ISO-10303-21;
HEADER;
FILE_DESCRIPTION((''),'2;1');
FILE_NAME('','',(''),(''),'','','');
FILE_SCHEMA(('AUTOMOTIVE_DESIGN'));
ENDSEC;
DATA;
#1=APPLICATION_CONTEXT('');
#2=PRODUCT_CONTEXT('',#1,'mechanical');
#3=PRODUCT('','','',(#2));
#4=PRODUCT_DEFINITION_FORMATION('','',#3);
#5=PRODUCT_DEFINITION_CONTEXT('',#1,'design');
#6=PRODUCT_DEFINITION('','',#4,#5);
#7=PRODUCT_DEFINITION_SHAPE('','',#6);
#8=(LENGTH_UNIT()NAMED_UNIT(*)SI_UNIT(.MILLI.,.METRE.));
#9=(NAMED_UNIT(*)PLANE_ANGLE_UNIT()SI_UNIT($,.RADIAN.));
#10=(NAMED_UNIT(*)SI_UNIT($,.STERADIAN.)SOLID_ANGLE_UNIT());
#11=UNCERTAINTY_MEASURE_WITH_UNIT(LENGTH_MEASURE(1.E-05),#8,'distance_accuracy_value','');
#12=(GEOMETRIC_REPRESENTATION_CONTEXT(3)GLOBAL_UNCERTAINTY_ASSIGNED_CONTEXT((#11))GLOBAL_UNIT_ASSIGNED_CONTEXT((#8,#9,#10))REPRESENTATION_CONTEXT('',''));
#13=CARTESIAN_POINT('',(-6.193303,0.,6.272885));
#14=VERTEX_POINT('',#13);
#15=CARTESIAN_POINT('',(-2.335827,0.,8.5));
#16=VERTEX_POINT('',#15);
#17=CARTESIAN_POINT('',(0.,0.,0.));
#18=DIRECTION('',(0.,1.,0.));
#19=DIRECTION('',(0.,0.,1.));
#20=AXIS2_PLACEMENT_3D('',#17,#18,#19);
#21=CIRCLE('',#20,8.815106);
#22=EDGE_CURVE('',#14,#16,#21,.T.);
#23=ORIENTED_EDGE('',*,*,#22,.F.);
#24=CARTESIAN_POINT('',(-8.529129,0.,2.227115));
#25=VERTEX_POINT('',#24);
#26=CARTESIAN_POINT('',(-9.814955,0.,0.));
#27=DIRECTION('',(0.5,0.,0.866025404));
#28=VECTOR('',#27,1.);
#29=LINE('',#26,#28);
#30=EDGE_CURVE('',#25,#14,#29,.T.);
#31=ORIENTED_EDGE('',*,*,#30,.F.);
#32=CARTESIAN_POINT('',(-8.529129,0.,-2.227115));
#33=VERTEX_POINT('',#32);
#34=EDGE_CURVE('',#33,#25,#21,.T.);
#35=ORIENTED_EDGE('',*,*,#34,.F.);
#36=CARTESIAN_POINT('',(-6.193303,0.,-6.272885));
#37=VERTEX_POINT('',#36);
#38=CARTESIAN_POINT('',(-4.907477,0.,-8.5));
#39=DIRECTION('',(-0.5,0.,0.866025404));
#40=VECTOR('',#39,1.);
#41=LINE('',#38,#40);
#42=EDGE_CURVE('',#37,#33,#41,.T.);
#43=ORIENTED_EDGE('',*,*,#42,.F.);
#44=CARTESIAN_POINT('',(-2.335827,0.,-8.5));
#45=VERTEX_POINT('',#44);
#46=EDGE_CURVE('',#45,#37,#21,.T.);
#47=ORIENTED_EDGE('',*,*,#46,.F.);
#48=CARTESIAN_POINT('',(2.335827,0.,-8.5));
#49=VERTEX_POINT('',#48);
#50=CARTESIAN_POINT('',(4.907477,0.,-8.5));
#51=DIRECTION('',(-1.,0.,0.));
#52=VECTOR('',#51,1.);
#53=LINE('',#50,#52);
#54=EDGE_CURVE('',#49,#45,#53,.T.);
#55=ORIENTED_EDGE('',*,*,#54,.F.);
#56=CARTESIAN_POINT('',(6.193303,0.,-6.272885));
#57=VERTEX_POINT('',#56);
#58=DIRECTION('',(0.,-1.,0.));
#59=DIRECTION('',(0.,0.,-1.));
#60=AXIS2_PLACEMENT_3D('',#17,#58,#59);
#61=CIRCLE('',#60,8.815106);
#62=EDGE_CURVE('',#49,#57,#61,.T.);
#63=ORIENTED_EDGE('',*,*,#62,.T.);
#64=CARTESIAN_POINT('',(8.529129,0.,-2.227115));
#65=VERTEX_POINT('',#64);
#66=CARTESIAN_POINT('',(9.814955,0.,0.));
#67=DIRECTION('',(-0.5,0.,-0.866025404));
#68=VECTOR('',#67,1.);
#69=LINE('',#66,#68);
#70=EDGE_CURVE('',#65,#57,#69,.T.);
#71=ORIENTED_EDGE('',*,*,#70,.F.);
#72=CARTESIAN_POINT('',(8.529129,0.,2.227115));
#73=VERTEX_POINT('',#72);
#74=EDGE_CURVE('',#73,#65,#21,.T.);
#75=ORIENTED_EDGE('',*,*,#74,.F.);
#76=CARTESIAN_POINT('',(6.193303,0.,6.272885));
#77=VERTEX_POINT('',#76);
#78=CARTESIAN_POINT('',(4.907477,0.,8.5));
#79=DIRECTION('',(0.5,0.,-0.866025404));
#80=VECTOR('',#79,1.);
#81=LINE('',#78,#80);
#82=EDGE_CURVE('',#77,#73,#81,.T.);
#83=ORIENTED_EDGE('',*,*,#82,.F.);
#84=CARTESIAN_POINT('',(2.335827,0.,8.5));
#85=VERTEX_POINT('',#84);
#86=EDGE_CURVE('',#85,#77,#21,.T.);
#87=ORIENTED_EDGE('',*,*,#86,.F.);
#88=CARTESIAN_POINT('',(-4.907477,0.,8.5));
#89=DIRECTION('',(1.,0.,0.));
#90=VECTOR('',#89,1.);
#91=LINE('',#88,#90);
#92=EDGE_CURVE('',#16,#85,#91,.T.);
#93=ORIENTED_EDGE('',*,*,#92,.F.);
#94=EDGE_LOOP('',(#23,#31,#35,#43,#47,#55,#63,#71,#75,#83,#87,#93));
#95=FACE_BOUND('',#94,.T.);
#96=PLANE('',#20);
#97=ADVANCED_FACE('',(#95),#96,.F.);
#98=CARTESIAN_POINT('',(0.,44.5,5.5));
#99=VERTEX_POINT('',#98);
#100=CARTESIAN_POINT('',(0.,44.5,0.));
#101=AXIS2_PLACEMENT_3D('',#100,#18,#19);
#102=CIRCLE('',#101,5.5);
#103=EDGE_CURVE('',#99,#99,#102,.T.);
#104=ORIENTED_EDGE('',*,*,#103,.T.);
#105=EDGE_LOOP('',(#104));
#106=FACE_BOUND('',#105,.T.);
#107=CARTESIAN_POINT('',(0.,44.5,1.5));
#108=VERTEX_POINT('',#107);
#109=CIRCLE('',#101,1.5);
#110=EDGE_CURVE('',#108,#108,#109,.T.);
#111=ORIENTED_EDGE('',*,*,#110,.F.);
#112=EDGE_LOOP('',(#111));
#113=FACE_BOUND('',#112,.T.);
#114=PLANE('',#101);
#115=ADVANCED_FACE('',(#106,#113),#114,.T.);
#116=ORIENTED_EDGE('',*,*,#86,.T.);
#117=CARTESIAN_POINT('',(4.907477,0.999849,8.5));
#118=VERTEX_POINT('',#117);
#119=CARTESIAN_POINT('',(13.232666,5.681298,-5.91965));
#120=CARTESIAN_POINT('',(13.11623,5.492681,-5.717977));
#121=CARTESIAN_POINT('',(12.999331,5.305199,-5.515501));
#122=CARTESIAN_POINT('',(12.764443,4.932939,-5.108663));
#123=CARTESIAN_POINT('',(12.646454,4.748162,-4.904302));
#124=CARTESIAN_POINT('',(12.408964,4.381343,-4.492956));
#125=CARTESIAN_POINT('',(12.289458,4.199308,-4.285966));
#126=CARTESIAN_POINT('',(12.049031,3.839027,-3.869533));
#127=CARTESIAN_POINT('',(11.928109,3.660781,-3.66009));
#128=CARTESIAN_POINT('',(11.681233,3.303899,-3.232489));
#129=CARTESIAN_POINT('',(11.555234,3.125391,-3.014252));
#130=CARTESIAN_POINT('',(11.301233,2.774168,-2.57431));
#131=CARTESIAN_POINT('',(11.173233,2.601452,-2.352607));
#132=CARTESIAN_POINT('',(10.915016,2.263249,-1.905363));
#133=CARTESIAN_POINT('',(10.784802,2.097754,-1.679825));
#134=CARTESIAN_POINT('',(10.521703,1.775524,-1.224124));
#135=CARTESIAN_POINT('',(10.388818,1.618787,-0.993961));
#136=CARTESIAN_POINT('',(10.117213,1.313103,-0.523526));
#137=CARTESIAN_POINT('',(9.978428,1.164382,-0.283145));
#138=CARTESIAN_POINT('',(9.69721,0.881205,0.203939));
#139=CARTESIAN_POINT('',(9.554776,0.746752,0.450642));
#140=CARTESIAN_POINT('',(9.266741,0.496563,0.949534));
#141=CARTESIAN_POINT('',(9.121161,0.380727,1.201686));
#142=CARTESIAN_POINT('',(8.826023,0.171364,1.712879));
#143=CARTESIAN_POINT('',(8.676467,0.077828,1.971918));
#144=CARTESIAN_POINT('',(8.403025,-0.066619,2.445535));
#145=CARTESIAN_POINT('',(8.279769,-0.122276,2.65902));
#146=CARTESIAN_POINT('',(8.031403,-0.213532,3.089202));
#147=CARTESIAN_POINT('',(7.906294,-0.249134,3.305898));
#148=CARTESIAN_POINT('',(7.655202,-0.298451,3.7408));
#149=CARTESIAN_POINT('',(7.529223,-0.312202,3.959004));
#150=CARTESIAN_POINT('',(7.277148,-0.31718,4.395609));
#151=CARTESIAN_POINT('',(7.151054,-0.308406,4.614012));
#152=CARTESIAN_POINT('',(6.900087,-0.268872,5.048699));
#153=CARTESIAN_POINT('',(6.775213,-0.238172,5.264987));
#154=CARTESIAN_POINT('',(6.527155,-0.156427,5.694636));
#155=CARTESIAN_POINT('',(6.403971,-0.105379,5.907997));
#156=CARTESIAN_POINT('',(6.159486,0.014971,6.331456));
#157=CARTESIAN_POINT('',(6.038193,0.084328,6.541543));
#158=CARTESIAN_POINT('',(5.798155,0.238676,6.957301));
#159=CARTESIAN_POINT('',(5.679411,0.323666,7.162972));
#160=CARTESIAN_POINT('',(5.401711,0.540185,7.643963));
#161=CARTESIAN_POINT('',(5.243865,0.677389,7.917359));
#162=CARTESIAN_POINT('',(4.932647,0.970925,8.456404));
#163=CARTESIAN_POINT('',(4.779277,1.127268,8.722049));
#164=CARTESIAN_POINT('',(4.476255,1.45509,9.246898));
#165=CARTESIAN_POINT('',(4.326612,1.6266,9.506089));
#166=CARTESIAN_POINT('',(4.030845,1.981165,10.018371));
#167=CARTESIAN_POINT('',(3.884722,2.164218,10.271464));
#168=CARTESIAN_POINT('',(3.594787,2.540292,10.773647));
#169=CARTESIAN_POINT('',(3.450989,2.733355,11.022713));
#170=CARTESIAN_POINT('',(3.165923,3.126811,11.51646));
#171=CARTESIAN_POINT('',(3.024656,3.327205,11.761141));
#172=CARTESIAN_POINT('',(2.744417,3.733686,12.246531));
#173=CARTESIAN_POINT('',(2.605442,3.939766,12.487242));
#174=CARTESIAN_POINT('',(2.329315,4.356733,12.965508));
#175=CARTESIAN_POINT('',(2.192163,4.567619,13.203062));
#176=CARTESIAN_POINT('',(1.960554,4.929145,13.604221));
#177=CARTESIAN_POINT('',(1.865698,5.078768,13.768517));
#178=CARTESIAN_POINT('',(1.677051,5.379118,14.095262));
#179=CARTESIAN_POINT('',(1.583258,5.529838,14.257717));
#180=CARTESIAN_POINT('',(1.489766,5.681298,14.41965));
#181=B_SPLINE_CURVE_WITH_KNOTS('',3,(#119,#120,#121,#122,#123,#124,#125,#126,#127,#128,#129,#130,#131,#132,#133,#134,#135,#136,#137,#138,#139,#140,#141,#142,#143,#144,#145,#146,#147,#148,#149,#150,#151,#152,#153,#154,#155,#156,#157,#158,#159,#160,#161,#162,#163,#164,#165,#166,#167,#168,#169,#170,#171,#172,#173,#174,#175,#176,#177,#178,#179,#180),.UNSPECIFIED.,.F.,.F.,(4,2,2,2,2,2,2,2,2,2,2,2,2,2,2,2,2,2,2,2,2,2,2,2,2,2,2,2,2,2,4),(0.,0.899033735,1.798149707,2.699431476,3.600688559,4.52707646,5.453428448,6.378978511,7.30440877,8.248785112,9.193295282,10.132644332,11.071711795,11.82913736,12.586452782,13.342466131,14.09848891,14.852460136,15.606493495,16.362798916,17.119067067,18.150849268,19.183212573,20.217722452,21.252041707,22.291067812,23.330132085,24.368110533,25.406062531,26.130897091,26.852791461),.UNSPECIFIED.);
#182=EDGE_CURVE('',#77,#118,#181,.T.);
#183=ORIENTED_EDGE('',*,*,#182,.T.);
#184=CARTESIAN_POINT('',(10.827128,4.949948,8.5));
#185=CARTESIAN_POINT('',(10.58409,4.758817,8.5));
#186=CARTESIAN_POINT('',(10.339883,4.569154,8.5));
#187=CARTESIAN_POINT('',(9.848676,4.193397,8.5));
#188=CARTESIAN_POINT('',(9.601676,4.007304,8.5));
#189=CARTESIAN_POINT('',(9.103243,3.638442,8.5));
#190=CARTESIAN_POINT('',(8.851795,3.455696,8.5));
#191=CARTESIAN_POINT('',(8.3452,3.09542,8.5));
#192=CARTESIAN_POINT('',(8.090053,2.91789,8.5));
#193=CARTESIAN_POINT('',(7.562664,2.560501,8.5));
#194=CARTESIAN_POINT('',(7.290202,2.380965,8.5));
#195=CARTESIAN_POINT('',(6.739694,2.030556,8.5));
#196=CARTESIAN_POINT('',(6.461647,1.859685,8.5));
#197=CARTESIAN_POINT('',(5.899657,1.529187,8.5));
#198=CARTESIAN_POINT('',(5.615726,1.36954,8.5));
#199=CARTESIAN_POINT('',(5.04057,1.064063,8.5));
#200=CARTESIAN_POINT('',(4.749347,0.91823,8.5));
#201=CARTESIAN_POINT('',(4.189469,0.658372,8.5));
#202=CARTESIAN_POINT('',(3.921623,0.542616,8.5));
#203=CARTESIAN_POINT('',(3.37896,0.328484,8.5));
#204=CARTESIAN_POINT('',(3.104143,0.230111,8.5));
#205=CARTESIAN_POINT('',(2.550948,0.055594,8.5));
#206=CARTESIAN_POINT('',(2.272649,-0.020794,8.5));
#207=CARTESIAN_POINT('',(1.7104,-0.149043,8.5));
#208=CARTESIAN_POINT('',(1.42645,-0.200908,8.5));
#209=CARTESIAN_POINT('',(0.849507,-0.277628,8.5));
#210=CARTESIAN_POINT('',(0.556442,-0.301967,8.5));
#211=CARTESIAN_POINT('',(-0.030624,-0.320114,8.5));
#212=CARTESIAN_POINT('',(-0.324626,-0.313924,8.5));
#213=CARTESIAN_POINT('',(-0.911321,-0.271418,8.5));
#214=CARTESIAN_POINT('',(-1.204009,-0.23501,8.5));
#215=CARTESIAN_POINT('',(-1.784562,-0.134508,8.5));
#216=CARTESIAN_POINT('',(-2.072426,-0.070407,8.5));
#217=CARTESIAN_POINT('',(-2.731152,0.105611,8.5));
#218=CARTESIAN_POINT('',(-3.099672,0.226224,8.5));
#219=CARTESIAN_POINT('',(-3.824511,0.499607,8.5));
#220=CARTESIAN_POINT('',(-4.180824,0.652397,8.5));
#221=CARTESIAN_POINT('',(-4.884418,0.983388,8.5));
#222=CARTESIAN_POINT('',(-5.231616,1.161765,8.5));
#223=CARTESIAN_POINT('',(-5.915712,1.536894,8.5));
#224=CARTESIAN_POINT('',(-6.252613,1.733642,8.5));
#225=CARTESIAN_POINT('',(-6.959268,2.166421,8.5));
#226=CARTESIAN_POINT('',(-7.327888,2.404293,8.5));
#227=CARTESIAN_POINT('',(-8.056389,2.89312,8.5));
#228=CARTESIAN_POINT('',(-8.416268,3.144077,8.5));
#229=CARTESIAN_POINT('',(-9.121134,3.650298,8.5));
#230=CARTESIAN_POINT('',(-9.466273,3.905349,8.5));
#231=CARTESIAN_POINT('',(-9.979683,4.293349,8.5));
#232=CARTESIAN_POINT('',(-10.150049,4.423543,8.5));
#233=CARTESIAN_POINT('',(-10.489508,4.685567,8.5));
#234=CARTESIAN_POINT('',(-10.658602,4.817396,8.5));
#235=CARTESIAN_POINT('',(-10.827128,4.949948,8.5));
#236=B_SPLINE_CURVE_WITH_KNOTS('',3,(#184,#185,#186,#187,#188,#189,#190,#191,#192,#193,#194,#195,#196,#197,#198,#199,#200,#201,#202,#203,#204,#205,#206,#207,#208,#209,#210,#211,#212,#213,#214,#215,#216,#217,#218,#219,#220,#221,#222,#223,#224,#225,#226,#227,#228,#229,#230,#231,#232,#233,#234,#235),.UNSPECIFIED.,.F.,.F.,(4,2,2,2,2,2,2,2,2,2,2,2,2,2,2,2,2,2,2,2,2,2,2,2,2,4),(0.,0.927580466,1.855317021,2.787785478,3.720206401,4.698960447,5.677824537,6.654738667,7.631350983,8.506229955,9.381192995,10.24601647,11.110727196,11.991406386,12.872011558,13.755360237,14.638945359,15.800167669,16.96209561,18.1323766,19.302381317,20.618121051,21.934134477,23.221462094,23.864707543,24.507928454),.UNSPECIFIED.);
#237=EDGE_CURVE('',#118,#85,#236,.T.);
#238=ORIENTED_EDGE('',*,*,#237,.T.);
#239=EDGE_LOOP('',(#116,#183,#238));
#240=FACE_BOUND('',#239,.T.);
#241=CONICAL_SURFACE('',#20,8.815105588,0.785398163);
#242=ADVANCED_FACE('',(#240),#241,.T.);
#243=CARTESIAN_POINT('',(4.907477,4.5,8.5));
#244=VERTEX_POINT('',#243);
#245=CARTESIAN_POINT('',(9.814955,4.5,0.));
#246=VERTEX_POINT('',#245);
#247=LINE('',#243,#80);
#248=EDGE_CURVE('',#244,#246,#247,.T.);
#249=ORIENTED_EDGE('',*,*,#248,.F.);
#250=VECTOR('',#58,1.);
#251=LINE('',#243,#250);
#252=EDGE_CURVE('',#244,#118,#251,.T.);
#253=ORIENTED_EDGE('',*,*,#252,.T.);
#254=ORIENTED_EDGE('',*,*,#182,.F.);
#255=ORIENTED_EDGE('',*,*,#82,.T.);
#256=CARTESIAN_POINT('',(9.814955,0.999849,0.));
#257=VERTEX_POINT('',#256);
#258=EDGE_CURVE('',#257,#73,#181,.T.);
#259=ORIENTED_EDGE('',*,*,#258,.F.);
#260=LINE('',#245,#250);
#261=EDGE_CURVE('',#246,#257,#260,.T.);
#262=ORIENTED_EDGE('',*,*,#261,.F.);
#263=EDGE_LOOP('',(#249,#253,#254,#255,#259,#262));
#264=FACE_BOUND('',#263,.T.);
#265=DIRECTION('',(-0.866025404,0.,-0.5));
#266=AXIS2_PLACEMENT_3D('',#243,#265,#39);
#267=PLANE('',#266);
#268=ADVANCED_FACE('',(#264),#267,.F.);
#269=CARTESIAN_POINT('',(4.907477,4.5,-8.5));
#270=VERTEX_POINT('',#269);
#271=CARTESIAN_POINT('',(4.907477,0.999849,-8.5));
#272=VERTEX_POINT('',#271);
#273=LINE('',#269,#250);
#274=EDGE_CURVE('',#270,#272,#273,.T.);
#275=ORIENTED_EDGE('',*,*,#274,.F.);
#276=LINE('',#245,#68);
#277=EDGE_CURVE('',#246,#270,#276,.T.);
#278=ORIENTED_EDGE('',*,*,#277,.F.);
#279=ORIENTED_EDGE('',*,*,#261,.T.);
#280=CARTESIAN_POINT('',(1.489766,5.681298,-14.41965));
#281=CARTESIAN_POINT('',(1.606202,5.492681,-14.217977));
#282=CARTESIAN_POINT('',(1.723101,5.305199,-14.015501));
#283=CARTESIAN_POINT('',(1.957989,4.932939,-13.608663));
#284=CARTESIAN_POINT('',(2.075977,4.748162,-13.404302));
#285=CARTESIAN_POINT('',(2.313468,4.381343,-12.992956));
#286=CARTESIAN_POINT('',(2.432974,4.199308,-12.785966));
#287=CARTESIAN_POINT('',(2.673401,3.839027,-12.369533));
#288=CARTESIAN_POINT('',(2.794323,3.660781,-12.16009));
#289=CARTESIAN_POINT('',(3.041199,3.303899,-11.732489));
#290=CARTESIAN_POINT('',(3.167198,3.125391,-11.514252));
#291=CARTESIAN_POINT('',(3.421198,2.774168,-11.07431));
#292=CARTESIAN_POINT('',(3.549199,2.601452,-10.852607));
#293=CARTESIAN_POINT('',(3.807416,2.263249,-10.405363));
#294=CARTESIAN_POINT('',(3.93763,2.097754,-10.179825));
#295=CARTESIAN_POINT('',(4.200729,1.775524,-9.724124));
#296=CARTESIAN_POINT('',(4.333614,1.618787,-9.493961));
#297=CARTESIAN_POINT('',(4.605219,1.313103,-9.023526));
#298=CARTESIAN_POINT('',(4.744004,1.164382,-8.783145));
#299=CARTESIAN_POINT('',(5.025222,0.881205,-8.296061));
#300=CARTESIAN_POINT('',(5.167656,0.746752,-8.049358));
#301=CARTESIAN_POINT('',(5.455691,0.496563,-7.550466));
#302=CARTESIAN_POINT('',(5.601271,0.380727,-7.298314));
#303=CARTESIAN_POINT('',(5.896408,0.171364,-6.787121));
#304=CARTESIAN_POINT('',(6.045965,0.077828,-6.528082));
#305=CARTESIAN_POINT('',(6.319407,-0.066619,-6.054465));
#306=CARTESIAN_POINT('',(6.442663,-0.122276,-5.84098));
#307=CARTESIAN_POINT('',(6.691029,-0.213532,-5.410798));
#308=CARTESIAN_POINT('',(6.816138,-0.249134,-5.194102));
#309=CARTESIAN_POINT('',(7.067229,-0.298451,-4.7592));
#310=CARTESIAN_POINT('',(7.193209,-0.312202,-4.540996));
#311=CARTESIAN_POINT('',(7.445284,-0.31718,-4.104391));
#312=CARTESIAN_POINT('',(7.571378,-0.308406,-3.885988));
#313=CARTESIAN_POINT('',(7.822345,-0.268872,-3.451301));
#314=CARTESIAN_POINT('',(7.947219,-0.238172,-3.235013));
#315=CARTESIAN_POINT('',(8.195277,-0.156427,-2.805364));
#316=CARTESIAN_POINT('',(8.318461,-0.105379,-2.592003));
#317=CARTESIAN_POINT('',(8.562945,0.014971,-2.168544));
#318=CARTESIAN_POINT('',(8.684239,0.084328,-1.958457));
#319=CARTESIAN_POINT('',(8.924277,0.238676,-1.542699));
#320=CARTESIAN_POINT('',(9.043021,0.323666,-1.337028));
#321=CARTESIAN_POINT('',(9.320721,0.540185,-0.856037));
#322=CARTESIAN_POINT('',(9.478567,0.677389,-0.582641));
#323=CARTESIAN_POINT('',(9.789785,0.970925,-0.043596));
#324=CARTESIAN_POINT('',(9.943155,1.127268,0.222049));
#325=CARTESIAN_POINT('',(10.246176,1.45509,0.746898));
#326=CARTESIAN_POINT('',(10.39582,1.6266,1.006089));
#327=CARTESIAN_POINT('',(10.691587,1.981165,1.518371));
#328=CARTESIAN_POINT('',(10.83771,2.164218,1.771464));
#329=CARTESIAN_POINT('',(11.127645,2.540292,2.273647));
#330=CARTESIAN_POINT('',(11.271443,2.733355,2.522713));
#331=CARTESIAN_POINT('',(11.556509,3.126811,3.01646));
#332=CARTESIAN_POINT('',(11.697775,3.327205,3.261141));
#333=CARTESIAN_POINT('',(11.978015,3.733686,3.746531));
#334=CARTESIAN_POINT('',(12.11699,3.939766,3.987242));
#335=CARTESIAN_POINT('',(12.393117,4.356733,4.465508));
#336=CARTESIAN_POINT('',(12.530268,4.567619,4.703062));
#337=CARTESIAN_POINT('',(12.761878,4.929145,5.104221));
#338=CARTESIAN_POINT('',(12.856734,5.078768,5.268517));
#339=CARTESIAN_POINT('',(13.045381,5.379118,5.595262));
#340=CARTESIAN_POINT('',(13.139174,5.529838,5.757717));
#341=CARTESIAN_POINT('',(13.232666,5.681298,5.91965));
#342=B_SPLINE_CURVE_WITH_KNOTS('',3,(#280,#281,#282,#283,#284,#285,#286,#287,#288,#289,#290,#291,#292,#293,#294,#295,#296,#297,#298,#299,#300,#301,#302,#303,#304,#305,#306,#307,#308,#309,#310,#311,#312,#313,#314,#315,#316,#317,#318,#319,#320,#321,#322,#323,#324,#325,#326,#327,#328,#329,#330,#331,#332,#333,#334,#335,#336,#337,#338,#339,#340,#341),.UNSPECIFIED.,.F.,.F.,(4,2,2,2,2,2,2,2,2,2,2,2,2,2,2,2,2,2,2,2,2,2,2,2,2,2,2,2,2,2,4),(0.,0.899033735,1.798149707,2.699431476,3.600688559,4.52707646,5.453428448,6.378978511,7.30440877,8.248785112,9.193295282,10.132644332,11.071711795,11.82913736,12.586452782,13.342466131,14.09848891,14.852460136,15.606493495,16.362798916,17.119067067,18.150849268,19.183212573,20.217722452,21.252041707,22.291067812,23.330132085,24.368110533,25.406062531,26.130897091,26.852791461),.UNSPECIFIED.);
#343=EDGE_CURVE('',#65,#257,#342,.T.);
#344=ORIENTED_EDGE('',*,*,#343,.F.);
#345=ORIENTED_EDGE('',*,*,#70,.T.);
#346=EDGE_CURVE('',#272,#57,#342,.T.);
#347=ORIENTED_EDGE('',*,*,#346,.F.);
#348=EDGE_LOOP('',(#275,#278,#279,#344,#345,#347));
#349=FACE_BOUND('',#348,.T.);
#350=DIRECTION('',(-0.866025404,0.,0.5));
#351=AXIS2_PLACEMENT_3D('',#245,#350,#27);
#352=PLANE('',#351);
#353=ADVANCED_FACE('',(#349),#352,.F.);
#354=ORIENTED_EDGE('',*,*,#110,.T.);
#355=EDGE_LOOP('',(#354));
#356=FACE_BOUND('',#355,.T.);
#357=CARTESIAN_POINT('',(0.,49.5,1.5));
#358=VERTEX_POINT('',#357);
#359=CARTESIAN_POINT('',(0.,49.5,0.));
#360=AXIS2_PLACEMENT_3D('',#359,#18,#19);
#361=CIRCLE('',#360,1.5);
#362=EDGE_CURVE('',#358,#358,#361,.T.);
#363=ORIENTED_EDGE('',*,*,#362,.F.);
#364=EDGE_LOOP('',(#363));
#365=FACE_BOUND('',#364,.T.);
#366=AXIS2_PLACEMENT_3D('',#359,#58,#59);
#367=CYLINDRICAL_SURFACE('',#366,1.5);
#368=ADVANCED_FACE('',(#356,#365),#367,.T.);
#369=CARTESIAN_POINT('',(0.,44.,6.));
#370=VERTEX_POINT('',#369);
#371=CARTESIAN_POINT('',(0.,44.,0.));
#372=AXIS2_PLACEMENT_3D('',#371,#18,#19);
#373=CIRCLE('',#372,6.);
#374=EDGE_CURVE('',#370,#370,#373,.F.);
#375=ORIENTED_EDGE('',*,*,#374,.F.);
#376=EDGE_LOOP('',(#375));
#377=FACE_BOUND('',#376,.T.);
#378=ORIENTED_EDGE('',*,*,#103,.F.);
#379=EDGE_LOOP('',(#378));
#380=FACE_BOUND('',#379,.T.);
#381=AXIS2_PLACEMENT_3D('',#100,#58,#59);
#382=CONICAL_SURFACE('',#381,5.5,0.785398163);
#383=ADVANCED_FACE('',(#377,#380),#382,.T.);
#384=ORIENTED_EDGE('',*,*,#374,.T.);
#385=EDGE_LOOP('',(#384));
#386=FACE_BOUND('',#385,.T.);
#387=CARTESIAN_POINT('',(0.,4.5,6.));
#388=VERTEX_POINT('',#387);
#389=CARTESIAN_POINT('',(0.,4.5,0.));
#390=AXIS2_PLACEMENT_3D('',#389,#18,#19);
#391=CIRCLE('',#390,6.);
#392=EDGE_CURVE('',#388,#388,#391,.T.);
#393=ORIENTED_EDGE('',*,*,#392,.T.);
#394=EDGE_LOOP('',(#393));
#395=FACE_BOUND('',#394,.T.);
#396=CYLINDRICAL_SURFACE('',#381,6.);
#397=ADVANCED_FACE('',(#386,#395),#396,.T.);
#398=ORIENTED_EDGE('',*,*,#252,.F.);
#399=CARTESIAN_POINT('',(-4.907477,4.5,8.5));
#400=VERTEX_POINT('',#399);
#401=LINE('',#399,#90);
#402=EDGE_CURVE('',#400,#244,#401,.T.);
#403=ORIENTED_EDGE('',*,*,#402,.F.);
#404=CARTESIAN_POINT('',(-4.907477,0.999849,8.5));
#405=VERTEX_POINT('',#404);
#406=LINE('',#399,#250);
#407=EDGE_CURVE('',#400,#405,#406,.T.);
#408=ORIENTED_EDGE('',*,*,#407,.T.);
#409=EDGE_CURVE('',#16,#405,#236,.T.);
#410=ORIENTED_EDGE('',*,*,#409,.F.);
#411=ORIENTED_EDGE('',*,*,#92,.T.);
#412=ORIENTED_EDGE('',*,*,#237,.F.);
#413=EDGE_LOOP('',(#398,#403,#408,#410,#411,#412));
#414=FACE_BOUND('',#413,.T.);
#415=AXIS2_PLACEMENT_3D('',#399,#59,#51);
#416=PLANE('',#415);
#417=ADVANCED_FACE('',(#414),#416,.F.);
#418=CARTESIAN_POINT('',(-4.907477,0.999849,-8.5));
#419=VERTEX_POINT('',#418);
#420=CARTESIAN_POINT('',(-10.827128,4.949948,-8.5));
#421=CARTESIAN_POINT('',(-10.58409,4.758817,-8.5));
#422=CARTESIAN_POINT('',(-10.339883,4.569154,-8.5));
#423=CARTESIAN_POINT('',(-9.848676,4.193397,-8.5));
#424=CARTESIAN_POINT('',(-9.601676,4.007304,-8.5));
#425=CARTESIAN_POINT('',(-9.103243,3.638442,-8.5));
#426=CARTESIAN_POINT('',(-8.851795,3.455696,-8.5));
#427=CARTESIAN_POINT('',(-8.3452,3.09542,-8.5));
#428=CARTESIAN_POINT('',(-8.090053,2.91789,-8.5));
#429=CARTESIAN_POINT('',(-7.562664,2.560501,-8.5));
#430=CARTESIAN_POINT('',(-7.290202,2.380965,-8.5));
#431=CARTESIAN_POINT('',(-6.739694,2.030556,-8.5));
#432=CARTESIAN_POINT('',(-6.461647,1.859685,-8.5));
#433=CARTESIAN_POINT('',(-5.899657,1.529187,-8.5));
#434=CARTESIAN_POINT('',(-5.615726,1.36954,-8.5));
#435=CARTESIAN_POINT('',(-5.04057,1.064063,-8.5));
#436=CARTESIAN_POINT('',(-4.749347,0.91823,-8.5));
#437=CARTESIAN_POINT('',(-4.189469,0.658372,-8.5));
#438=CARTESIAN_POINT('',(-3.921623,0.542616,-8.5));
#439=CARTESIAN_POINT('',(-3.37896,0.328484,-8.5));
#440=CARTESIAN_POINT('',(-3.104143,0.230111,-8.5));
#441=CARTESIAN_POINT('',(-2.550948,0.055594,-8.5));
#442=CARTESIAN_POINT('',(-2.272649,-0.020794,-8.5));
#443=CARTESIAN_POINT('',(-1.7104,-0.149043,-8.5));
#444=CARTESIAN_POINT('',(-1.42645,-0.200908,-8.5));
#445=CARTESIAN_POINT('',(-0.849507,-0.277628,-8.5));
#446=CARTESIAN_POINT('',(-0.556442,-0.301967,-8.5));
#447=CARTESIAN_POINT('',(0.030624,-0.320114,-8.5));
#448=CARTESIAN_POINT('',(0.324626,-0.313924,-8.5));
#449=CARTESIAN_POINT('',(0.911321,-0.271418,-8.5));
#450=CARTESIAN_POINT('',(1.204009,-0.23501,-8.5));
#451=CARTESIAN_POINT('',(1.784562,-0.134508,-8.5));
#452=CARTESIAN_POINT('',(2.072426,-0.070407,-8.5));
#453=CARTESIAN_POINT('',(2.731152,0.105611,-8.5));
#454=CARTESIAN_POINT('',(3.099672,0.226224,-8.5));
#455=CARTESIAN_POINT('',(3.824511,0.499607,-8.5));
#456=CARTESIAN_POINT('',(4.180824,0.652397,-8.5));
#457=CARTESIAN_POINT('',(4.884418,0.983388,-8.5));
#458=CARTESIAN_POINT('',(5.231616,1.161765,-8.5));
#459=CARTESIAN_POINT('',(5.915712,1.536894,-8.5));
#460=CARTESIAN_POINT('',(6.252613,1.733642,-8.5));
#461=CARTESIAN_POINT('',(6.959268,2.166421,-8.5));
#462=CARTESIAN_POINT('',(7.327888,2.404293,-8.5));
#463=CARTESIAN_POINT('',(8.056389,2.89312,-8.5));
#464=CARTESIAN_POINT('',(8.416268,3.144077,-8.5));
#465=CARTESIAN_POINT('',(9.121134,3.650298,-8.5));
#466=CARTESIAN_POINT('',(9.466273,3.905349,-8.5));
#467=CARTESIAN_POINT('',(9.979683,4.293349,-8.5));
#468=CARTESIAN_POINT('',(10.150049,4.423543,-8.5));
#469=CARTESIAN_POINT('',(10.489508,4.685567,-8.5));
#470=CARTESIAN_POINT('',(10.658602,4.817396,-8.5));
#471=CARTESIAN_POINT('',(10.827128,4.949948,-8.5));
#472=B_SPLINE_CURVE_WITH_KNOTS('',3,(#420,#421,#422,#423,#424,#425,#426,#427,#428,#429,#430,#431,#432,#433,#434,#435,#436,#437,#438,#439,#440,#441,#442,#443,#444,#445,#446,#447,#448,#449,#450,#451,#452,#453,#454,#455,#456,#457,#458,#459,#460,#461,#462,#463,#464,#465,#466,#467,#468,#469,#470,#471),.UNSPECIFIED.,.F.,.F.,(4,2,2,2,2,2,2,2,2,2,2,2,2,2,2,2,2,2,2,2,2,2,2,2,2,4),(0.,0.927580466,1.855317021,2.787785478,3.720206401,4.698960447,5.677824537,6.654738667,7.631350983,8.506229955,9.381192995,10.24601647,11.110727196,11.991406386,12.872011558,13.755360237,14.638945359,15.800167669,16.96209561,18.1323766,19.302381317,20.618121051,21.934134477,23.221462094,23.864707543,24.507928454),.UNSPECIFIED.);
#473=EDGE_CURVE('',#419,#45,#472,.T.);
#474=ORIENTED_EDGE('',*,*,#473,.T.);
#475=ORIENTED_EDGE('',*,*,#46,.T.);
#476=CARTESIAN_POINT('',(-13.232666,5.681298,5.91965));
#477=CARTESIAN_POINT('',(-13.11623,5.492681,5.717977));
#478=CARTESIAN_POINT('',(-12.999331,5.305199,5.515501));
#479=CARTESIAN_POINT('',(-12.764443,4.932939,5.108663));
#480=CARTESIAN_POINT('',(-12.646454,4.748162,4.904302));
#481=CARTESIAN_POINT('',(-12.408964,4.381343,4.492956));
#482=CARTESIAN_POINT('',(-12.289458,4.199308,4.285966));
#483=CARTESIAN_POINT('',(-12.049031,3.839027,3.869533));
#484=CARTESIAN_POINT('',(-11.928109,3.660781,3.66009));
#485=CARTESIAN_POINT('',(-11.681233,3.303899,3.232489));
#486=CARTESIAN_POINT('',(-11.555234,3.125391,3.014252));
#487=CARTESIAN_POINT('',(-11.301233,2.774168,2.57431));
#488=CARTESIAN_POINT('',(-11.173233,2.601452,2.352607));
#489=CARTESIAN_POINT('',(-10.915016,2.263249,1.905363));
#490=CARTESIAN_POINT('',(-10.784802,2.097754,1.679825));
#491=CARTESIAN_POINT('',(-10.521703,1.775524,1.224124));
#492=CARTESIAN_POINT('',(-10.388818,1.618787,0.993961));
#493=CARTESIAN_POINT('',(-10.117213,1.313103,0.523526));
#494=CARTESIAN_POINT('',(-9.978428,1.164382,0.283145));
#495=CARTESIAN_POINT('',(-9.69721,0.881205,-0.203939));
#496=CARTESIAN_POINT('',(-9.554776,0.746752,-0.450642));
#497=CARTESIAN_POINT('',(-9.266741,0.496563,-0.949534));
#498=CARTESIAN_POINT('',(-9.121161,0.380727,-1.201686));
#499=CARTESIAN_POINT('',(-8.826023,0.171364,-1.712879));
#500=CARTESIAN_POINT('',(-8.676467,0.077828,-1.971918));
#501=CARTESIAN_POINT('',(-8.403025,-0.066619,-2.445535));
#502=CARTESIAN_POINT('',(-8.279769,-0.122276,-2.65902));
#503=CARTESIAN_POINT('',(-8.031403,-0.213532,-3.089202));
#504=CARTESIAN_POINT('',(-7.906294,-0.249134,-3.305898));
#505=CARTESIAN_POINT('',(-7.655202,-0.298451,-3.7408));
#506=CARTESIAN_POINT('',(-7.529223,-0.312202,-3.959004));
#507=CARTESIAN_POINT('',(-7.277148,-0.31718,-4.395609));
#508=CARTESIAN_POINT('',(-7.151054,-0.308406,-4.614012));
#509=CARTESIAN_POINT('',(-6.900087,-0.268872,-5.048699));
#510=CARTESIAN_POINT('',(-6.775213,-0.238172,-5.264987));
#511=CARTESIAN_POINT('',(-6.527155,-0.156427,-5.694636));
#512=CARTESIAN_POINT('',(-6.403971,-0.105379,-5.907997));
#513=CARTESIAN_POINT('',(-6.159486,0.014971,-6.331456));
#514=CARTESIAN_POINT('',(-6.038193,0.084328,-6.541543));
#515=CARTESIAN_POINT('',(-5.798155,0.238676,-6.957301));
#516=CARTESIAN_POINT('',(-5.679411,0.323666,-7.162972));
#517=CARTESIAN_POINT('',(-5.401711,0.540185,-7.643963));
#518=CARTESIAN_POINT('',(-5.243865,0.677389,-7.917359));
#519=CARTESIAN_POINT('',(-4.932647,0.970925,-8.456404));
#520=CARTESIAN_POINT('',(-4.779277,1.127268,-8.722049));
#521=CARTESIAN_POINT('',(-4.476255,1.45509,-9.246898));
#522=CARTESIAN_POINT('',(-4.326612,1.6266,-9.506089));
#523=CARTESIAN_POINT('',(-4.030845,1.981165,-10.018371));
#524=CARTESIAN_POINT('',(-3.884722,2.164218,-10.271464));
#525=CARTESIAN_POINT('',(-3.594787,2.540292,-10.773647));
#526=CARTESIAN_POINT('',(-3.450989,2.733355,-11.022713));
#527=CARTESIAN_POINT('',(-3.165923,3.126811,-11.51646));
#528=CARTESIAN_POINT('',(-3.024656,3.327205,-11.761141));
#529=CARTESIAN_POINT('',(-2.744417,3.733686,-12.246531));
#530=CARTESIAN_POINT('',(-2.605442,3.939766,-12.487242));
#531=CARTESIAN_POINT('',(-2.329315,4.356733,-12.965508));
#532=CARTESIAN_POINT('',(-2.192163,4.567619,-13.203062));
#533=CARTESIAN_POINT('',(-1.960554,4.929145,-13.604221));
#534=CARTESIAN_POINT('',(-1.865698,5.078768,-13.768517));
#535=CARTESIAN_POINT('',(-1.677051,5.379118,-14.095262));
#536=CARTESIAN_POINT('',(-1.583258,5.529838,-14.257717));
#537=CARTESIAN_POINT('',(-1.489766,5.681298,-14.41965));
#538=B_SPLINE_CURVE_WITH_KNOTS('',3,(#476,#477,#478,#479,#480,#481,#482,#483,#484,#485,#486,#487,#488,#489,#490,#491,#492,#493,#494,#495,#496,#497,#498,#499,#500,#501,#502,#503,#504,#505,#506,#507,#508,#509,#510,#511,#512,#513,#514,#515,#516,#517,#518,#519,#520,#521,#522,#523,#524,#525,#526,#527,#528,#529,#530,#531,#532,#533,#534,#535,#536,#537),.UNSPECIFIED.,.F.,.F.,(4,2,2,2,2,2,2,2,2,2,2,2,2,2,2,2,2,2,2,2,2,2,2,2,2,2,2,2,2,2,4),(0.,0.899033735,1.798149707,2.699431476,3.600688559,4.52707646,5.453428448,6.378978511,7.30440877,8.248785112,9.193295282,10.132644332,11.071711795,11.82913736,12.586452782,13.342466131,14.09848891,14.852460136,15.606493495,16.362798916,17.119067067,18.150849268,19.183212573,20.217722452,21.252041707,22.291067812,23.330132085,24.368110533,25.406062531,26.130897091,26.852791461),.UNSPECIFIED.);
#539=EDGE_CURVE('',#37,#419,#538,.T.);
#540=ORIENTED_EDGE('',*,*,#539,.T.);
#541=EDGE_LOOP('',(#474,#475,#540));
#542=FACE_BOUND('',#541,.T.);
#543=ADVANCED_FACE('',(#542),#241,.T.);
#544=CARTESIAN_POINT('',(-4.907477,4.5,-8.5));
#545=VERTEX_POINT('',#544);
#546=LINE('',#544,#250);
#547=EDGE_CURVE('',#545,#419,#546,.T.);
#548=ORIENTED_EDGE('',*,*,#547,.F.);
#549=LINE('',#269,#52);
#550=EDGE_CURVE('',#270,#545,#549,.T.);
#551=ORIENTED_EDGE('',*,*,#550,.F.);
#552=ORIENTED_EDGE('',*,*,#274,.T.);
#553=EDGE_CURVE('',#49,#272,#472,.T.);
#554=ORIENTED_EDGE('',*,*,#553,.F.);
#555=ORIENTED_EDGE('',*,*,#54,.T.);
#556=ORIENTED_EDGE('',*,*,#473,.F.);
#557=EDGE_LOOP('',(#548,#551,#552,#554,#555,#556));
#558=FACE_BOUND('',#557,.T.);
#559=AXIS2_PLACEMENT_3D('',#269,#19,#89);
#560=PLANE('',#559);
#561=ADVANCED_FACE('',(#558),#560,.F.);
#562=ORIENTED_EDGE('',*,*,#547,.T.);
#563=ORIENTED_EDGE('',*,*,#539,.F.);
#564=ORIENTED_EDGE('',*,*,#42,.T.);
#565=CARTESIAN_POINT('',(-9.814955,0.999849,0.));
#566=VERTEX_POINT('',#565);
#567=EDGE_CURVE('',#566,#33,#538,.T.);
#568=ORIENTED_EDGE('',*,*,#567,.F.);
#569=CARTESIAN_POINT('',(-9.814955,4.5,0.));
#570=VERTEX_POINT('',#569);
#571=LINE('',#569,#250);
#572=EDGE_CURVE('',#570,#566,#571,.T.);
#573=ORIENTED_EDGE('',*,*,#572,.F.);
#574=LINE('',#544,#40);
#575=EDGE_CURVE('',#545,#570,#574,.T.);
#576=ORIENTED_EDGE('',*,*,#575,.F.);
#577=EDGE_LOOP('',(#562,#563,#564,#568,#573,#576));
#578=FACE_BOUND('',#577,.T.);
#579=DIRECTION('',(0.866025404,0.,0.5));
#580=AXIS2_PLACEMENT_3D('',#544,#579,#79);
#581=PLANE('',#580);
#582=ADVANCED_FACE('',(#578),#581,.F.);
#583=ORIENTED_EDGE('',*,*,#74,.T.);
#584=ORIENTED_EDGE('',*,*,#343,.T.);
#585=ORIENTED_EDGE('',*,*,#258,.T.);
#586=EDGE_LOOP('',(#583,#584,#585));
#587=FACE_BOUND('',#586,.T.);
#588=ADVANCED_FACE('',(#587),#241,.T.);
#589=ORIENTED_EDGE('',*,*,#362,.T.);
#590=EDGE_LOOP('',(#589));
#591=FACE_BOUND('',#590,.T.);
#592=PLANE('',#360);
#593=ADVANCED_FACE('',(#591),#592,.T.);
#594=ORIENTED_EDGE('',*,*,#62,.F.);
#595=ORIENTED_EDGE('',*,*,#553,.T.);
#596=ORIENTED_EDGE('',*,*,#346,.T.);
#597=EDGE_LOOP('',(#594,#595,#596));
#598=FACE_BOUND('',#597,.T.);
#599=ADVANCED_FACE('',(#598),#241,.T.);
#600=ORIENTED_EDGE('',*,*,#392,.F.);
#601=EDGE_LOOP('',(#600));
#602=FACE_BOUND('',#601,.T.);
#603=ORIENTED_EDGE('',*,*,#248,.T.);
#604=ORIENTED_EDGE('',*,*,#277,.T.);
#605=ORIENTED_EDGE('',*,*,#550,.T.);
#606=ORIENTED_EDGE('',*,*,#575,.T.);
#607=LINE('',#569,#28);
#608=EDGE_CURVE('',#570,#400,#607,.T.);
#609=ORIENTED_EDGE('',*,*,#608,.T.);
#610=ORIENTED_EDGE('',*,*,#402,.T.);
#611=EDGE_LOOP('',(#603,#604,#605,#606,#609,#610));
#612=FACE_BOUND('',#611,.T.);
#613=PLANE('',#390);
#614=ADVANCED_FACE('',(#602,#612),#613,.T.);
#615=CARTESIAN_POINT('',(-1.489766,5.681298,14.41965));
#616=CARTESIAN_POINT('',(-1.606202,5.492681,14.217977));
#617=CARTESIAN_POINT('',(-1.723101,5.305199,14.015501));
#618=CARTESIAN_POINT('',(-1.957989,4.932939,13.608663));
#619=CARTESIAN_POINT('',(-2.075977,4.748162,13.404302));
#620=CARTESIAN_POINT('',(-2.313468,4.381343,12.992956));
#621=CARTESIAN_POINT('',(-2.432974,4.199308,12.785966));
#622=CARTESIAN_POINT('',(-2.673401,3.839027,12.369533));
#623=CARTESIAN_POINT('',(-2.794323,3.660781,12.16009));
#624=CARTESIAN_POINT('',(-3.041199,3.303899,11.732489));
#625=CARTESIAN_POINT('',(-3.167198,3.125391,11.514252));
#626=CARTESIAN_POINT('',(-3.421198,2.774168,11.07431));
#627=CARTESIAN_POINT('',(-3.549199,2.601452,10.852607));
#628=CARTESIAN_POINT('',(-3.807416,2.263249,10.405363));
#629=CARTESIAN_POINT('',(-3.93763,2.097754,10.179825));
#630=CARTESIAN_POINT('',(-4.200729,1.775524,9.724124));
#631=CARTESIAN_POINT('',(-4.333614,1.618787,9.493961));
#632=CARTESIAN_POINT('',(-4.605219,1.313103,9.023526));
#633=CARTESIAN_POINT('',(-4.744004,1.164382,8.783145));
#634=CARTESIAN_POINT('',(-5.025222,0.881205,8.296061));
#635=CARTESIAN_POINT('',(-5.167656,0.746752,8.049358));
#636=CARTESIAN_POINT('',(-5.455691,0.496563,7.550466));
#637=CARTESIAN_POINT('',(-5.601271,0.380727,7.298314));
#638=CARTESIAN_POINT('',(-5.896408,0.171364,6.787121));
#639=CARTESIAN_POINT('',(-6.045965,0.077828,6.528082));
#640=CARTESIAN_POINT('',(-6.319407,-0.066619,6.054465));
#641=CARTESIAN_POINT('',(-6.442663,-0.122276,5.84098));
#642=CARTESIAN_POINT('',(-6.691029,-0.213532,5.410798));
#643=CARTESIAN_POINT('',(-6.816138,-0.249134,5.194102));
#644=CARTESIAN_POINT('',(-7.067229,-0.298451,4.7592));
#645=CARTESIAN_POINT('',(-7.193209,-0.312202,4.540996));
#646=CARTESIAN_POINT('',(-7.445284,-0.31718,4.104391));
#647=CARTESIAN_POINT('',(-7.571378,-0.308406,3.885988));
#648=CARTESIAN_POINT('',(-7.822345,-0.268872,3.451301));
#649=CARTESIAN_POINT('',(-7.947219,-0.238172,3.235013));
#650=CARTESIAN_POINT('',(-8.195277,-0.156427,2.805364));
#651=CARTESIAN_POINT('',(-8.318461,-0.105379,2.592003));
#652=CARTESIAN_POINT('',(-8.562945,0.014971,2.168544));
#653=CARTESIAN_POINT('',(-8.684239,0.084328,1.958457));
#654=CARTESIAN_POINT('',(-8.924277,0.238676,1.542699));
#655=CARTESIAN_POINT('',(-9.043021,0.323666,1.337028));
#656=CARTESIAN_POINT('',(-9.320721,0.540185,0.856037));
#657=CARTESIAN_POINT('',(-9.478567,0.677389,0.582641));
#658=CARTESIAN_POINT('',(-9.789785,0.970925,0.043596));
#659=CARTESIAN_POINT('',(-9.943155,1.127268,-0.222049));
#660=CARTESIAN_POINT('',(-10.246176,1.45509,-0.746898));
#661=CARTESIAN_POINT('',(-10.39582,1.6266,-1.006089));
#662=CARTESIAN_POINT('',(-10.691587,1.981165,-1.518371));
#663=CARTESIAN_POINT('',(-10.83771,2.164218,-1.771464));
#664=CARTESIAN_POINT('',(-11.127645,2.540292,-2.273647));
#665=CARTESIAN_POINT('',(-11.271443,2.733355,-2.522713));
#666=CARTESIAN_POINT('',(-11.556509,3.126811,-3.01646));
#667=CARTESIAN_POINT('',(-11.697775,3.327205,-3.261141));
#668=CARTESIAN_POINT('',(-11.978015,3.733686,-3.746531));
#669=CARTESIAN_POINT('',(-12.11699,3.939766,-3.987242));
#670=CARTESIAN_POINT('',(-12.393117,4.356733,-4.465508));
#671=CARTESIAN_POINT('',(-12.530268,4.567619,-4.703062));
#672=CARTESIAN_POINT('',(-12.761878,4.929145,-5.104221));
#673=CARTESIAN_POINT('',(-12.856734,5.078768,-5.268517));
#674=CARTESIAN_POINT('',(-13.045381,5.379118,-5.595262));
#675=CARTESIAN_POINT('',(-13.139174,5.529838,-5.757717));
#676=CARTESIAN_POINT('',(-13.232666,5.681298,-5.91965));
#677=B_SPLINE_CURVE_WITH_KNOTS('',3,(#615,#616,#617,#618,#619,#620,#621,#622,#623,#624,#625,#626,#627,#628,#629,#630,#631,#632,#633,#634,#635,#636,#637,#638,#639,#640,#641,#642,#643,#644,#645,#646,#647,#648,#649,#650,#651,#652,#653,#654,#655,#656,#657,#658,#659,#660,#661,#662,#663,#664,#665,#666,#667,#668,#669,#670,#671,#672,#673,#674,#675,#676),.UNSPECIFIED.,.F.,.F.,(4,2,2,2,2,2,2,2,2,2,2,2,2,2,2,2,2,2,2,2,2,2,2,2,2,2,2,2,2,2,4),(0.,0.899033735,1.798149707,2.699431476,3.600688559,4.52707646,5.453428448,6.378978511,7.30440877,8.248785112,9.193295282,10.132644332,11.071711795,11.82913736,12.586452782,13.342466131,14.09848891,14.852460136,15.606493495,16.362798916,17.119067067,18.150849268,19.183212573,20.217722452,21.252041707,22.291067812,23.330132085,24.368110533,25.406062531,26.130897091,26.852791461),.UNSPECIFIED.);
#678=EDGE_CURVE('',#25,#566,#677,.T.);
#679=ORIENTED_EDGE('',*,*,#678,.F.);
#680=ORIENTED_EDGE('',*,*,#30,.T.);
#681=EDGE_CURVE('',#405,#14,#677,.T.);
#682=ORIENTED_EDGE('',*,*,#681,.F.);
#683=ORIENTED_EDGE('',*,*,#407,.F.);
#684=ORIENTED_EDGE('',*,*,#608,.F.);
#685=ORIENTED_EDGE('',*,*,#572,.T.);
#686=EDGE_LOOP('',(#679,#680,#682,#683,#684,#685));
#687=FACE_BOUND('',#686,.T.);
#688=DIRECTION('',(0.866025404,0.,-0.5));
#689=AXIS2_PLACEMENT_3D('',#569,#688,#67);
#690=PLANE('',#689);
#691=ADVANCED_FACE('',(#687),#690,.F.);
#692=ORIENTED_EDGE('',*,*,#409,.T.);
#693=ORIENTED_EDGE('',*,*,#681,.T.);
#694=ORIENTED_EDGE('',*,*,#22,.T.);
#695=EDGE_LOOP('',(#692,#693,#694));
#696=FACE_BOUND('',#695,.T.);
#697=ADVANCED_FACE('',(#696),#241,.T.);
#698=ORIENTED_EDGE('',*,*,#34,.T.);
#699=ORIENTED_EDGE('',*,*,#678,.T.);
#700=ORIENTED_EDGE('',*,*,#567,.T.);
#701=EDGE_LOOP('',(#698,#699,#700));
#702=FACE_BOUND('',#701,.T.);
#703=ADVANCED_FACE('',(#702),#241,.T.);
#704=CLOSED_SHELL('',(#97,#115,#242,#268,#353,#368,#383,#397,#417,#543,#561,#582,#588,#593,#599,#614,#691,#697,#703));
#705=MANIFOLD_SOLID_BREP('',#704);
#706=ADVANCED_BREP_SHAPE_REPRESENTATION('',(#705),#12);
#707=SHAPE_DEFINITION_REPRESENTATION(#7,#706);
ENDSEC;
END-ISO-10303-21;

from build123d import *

# Parameters (mm, degrees)
P_IDAT_VYSUNUT_M1_DEPTH = 4.5
SKICA2_R                = 6
P_IDAT_VYSUNUT_M2_DEPTH = 40
SKICA3_R                = 1.5
P_IDAT_VYSUNUT_M3_DEPTH = 5
ZKOSEN_1_SIZE           = 0.5


with BuildPart() as part:
    # Skica1 → Přidat vysunutím1 (new body)
    with BuildSketch(Plane(origin=(0, 0, 0), x_dir=(1, 0, 0), z_dir=(0, 1, 0))):
        Polygon((9.814954576, 0), (4.907477288, 8.5), (-4.907477288, 8.5), (-9.814954576, 0), (-4.907477288, -8.5), (4.907477288, -8.5), align=None)
    extrude(amount=P_IDAT_VYSUNUT_M1_DEPTH)

    # Skica2 → Přidat vysunutím2 (add)
    with BuildSketch(Plane(origin=(0, 4.5, 0), x_dir=(1, 0, 0), z_dir=(0, 1, 0))):
        with Locations(Location((0, 0, 0), (0, 0, 270))):
            Circle(SKICA2_R)
    extrude(amount=P_IDAT_VYSUNUT_M2_DEPTH)

    # Skica3 → Přidat vysunutím3 (add)
    with BuildSketch(Plane(origin=(0, 44.5, 0), x_dir=(1, 0, 0), z_dir=(0, 1, 0))):
        with Locations(Location((0, 0, 0), (0, 0, 270))):
            Circle(SKICA3_R)
    extrude(amount=P_IDAT_VYSUNUT_M3_DEPTH)

    # Skica4 → Odebrat rotací1 (revolve, cut)
    with BuildSketch(Plane.XY):
        Polygon((-9.814954576, 0.999848989), (-8.815105588, 0), (-9.814954576, 0), align=None)
    revolve(axis=Axis((0, 0, 0), (0, 1, 0)), mode=Mode.SUBTRACT)

    # Zkosení1
    zkosen_1_edges = [part.edges().sort_by_distance(p)[0] for p in [
        (0, 44.5, -6),
    ]]
    chamfer(zkosen_1_edges, length=ZKOSEN_1_SIZE)


solid = part.part
